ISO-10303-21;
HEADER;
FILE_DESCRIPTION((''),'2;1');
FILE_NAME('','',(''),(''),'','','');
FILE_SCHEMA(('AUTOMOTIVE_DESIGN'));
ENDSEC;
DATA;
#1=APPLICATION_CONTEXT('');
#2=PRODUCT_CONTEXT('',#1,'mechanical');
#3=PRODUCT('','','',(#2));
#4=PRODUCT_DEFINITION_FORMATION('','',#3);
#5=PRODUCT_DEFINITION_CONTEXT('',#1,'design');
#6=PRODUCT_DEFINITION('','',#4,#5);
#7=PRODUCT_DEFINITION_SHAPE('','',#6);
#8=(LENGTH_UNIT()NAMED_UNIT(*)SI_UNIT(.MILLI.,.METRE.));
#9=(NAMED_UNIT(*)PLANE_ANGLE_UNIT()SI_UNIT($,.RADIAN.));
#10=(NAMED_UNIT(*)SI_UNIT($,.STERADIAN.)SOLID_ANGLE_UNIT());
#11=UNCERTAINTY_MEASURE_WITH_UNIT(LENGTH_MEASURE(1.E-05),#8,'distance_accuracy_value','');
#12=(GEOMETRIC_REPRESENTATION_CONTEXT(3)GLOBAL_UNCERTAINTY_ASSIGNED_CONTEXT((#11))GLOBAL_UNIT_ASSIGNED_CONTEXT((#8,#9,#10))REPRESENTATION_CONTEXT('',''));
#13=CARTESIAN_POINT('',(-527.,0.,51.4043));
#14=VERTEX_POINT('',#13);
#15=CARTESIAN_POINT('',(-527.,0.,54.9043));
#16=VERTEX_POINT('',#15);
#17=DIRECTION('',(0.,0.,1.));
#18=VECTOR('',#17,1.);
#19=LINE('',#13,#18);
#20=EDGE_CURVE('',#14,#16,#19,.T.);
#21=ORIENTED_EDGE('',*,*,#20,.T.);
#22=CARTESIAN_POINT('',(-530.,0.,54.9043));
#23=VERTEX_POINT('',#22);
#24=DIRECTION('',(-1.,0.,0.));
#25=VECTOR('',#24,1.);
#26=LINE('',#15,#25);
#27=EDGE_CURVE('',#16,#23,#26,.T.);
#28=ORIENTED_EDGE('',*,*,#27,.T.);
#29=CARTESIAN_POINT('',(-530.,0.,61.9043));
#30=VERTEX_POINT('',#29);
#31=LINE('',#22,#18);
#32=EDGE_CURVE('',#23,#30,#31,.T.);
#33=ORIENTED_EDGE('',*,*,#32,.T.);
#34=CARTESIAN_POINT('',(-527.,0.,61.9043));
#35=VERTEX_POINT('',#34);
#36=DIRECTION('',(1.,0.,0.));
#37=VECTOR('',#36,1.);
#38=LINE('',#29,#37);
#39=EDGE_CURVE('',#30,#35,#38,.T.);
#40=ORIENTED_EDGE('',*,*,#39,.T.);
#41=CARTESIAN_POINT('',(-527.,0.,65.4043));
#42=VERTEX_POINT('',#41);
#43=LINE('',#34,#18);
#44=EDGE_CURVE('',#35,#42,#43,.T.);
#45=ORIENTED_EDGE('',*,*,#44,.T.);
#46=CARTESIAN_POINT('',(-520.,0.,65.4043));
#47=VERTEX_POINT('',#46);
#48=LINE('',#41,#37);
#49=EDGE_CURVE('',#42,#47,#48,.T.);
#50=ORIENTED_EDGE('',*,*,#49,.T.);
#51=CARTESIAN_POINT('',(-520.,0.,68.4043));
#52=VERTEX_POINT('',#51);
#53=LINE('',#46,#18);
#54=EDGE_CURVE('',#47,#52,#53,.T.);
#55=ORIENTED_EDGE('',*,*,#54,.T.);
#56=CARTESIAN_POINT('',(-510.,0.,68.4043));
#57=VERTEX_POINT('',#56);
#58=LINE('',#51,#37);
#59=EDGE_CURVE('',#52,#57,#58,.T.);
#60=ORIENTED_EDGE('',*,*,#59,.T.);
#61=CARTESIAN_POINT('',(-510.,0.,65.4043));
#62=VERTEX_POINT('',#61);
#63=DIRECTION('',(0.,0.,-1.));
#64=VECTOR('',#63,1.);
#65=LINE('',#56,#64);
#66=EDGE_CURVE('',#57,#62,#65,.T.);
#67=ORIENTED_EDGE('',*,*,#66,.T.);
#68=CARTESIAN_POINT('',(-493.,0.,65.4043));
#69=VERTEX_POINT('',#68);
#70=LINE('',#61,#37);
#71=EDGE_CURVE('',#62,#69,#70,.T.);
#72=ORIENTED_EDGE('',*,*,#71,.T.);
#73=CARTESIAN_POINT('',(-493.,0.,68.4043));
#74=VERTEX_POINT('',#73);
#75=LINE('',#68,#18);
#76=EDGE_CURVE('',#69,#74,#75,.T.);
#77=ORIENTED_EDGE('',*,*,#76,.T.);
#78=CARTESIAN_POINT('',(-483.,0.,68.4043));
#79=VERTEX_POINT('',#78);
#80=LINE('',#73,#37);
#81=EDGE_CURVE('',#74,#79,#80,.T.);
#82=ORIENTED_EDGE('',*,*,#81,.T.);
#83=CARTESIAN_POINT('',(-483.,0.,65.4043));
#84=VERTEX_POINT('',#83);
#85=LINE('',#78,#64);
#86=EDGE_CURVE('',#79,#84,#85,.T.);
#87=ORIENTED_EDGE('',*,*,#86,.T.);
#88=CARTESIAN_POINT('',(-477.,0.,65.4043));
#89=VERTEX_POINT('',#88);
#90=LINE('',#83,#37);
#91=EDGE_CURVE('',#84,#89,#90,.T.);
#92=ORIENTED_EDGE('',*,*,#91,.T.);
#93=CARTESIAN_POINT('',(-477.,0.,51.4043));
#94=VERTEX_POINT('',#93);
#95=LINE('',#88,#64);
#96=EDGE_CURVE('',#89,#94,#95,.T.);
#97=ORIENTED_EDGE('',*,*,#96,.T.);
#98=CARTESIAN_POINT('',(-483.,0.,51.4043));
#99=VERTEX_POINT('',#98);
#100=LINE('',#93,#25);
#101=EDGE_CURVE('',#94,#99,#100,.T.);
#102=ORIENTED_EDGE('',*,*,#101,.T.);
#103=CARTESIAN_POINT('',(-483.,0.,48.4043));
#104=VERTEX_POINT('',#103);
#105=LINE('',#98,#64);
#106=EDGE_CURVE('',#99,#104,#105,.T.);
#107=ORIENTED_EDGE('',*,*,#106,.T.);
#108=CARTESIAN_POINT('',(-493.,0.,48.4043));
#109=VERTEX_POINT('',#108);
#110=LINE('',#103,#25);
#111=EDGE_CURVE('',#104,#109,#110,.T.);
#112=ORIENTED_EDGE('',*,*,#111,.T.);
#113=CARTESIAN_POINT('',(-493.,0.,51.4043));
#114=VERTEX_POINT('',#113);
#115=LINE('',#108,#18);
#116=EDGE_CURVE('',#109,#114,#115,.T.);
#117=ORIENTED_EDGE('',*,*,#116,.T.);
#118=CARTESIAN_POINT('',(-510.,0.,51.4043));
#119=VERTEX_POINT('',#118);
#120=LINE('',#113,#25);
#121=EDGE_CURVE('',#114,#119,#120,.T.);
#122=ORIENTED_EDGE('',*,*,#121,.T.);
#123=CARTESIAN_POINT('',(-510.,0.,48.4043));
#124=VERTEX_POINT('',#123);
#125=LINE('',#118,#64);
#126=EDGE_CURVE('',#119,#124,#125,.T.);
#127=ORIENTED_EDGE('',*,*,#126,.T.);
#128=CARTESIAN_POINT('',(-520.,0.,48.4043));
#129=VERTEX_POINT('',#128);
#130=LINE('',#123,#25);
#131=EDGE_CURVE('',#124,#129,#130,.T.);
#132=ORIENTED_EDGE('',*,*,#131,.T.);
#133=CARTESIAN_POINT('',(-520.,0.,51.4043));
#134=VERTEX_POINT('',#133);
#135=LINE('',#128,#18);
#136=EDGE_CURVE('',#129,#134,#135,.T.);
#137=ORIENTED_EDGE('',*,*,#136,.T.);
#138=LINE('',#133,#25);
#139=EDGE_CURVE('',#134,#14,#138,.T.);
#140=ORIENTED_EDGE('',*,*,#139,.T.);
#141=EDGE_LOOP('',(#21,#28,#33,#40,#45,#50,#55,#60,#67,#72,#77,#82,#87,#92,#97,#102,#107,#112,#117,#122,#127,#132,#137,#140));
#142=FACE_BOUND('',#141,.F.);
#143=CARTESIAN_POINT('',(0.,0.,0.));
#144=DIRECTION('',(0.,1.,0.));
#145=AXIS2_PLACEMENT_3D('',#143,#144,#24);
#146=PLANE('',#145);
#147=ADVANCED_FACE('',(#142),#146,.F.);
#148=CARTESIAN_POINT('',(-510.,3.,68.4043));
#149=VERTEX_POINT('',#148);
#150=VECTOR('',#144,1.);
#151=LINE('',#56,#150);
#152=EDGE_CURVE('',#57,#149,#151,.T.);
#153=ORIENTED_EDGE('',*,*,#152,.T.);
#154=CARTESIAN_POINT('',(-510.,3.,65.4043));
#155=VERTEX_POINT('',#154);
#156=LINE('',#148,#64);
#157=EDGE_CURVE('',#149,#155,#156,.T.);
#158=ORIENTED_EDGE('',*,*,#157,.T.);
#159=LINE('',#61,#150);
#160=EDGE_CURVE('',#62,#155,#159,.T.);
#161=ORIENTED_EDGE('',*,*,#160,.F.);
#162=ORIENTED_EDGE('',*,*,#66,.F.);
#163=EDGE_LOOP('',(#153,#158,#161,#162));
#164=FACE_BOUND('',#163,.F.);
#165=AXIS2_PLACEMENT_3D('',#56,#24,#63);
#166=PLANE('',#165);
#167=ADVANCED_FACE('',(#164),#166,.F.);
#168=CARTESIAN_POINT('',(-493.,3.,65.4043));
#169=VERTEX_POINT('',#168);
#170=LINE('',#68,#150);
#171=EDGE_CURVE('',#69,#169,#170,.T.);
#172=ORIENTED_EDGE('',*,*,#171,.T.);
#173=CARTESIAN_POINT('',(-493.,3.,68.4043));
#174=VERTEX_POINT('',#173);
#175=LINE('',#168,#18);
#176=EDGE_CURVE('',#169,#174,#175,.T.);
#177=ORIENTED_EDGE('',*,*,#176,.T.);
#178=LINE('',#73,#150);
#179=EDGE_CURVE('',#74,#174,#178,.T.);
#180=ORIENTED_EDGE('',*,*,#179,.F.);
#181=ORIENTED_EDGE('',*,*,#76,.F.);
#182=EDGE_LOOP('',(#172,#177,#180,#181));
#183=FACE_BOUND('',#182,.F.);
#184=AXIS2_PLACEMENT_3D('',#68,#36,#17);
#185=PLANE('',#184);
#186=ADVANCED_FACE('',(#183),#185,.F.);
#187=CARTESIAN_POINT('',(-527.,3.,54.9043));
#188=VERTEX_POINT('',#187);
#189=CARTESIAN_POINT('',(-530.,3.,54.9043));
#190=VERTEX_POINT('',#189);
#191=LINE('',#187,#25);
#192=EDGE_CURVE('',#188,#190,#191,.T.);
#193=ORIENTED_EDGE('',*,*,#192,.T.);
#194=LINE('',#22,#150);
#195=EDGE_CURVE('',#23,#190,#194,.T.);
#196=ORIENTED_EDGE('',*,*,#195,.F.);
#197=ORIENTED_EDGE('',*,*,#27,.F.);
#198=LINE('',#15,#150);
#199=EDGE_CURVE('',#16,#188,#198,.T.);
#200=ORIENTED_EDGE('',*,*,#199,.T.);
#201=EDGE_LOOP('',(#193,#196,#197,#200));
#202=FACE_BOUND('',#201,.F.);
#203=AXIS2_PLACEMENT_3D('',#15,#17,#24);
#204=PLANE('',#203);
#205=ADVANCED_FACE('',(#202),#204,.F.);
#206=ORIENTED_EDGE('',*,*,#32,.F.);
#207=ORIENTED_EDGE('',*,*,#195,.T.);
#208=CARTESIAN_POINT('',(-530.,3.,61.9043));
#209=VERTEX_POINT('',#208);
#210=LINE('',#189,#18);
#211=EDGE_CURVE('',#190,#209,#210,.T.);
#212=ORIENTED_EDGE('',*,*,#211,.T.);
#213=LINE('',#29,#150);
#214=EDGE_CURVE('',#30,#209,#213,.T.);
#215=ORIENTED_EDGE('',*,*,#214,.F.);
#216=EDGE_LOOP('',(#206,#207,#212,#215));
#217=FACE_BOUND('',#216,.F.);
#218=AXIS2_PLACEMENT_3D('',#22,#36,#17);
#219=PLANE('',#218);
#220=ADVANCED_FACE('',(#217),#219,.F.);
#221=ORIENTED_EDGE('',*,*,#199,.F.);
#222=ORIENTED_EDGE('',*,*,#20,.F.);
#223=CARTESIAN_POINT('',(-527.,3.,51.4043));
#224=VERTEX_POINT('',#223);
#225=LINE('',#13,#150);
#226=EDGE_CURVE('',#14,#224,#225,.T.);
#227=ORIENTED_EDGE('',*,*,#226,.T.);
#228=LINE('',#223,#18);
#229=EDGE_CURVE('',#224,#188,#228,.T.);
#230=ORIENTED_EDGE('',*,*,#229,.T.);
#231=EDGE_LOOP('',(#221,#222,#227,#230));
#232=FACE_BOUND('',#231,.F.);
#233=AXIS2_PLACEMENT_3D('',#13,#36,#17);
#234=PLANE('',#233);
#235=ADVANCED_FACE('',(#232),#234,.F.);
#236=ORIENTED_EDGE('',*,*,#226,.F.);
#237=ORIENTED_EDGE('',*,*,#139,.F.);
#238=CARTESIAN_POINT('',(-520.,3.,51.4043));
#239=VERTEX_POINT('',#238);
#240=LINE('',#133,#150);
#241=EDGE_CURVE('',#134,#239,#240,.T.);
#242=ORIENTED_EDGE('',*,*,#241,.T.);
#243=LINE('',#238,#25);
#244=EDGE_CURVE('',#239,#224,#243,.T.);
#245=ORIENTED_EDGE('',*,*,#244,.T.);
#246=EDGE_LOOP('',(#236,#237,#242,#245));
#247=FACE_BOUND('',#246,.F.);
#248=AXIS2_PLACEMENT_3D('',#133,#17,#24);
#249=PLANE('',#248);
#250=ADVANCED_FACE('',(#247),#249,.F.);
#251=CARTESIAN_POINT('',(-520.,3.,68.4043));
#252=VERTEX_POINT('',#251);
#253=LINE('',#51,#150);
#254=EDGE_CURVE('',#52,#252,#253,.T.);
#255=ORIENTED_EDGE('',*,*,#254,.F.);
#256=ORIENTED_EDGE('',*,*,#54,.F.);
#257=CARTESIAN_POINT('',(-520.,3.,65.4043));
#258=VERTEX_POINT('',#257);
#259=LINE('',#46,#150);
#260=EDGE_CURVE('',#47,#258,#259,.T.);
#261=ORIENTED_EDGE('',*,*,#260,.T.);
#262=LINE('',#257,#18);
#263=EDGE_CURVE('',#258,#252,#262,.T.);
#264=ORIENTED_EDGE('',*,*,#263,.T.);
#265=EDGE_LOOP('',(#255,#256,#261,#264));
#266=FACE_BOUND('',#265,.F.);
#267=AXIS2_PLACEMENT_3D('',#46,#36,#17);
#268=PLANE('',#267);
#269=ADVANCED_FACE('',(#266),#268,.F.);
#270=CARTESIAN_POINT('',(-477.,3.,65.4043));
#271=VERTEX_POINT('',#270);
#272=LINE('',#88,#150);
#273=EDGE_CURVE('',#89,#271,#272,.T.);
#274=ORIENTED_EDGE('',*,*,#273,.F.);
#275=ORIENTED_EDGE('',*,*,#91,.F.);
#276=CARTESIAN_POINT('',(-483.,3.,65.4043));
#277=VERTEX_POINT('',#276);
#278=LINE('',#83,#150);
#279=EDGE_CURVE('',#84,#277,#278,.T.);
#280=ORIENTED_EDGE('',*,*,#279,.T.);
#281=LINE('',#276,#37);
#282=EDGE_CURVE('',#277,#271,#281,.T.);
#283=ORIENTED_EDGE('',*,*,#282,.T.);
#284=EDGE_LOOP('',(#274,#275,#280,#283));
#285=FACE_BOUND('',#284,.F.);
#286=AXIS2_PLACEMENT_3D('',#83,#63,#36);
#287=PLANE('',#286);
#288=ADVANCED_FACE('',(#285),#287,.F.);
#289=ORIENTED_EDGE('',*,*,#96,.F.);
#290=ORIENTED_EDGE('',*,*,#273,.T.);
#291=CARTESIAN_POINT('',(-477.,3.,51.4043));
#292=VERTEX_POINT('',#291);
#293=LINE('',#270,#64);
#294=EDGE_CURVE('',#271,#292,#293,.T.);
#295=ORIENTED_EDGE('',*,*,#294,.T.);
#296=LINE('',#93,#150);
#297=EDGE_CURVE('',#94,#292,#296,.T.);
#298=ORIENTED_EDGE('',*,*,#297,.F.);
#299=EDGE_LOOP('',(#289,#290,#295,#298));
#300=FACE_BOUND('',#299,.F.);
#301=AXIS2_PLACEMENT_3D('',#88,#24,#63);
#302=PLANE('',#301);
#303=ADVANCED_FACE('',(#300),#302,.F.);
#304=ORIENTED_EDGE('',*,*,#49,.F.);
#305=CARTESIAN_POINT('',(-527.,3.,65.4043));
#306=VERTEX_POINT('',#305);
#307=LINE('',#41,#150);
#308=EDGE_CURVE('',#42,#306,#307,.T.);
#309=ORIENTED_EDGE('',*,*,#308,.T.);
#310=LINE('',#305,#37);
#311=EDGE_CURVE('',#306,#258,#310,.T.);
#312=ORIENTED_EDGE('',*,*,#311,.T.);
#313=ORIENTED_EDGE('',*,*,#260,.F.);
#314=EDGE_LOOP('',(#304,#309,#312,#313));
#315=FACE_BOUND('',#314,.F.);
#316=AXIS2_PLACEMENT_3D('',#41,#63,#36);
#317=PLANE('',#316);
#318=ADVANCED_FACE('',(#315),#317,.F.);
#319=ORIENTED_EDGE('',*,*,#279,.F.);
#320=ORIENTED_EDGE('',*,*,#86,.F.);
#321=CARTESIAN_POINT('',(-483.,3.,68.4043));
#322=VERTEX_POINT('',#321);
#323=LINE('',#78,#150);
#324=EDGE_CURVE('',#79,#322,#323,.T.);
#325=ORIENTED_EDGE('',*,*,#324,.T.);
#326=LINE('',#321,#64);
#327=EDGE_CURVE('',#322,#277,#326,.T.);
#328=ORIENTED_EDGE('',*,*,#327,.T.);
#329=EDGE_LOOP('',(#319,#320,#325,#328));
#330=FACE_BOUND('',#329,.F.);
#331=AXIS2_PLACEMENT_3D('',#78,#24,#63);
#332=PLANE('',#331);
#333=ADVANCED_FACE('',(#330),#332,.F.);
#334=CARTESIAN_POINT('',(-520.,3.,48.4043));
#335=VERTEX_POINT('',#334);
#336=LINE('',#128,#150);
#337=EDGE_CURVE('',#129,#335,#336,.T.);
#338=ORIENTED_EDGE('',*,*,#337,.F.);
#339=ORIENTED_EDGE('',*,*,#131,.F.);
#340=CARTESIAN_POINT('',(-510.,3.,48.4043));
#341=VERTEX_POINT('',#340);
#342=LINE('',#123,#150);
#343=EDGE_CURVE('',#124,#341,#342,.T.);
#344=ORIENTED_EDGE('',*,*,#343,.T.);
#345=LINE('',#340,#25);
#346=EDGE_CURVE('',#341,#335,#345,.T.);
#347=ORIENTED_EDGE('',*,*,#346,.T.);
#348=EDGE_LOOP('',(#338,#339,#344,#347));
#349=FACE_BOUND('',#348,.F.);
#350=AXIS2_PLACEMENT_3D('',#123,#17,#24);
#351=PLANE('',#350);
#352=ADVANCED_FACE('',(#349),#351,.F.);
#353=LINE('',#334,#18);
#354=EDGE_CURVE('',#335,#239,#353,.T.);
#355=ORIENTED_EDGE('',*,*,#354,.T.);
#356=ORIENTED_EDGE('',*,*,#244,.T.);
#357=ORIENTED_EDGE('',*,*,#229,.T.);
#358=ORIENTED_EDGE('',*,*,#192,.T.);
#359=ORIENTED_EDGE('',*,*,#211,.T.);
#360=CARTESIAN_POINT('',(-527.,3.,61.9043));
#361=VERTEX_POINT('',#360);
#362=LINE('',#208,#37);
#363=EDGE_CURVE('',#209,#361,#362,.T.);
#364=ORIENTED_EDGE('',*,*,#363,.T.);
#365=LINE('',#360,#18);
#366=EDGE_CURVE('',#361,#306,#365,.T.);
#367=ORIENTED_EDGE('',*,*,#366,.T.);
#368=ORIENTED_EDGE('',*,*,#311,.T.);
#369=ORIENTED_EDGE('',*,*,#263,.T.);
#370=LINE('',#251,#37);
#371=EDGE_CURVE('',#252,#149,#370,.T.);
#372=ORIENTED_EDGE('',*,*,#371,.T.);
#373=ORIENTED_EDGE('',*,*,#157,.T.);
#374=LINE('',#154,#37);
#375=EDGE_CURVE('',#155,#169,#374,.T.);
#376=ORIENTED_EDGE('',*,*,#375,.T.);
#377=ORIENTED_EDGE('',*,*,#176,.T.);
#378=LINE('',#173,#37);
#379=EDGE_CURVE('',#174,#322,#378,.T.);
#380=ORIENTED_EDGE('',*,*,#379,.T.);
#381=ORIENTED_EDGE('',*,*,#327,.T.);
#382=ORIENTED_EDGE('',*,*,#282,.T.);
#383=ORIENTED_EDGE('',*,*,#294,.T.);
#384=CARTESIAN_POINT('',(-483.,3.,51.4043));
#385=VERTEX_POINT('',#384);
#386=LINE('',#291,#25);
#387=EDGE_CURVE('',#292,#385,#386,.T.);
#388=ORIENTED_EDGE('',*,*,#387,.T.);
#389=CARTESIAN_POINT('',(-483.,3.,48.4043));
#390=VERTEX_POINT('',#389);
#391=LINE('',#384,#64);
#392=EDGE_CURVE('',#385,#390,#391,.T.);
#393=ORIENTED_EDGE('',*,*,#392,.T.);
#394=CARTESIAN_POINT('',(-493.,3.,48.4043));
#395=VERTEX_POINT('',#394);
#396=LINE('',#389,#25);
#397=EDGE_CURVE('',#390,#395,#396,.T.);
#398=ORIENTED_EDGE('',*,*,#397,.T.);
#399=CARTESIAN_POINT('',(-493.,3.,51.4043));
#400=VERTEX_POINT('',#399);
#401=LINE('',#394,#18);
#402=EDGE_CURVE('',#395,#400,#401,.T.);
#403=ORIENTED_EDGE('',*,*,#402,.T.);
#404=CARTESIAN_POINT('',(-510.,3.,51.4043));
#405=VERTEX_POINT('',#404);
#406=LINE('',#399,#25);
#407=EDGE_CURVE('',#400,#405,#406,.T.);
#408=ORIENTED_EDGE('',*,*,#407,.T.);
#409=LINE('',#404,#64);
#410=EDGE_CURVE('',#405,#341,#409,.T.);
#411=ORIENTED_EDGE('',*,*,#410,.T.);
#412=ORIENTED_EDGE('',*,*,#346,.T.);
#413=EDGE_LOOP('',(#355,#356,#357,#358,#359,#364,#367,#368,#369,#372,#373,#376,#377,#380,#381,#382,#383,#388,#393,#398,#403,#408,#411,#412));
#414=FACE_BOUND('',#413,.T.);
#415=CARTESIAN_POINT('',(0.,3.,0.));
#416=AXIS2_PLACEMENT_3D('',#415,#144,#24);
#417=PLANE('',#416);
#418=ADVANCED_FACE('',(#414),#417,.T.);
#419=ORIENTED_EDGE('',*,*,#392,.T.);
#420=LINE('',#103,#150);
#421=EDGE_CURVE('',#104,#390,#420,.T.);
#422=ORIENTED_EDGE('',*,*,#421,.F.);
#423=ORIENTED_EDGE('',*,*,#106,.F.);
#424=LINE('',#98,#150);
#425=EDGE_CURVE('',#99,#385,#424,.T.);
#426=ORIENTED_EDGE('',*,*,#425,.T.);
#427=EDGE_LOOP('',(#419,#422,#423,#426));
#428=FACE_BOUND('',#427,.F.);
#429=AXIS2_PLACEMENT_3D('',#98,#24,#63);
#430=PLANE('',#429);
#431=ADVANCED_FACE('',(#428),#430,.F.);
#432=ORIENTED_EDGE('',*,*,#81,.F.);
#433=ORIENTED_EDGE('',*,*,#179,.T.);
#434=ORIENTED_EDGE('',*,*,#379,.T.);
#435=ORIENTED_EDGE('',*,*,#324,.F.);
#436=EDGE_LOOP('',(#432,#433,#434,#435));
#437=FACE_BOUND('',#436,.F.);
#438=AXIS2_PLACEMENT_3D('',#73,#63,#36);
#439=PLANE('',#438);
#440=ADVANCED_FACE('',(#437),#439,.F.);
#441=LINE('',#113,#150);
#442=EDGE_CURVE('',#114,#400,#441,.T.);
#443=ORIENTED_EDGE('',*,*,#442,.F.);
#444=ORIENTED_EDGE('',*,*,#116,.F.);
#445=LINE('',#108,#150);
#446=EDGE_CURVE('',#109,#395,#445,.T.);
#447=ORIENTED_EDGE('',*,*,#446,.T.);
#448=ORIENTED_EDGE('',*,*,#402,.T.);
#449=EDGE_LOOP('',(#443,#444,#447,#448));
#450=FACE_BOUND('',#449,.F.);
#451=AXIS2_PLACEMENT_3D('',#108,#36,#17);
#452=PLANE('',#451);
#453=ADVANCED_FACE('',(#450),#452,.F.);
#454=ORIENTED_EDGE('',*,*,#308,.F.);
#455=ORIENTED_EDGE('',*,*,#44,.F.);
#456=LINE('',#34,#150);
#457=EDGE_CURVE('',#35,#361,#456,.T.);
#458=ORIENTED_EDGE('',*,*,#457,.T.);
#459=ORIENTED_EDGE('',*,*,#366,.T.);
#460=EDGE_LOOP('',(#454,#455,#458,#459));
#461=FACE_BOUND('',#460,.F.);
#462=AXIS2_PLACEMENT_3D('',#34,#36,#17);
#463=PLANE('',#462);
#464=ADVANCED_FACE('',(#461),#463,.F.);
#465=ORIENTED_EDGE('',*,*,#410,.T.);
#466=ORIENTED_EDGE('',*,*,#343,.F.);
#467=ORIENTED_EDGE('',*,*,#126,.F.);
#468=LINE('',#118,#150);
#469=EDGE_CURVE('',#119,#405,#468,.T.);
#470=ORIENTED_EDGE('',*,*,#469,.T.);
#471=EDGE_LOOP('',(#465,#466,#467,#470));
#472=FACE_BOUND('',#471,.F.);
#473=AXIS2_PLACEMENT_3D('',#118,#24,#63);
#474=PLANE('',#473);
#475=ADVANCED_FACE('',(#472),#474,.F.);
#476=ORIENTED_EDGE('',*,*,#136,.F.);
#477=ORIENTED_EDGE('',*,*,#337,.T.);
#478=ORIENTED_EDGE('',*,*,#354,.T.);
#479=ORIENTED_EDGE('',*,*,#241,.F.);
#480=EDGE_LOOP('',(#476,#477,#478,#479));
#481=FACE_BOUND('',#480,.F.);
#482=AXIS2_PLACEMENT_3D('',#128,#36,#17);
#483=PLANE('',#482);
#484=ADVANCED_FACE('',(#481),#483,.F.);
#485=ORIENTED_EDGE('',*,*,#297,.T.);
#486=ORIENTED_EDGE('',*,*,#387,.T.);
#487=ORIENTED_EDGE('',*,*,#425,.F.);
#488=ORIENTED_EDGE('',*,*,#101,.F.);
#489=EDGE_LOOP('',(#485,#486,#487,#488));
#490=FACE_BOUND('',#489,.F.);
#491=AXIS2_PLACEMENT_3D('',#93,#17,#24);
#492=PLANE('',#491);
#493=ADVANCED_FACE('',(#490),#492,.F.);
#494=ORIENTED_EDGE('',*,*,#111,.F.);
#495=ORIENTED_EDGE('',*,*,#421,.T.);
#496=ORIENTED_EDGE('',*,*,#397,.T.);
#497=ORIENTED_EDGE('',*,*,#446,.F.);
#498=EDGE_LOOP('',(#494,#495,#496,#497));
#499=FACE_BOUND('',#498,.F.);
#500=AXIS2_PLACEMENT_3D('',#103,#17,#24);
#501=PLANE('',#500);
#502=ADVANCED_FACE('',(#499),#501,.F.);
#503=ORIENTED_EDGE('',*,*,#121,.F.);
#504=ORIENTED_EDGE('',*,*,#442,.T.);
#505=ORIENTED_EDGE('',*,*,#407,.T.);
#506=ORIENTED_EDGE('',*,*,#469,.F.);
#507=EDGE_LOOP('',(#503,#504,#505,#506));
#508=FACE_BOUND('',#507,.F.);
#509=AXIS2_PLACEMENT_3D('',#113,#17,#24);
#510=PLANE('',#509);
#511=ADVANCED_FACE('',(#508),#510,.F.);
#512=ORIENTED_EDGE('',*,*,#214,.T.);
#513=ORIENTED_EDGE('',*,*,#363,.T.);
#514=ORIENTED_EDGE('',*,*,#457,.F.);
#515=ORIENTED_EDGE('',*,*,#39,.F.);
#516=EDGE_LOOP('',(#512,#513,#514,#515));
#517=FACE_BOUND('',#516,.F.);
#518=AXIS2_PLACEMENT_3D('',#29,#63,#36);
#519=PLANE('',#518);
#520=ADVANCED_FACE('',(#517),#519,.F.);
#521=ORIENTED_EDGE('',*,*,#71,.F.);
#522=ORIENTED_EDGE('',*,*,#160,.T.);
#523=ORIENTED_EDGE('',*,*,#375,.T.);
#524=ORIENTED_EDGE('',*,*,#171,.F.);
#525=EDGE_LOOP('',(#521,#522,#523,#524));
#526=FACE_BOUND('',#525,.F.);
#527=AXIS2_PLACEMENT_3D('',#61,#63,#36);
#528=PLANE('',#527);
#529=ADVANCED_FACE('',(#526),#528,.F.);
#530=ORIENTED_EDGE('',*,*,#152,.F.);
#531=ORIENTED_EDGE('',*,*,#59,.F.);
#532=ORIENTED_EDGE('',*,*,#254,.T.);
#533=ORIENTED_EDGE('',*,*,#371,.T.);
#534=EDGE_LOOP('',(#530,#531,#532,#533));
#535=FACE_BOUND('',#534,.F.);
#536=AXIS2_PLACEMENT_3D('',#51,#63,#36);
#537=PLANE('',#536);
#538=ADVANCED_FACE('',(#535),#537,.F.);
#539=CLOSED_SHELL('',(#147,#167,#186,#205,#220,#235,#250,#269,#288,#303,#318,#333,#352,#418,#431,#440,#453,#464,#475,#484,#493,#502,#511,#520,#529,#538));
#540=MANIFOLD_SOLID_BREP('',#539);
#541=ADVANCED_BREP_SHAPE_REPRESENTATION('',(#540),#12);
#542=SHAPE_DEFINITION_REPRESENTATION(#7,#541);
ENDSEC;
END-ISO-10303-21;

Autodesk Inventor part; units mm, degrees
ref_plane "YZ Plane" through (0, 0, 0) normal (1, 0, 0) x (0, 1, 0)
ref_plane "XZ Plane" through (0, 0, 0) normal (0, 1, 0) x (-1, 0, 0)
ref_plane "XY Plane" through (0, 0, 0) normal (0, 0, 1) x (1, 0, 0)
sketch "Sketch2" plane through (0, 0, 0) normal (0, 1, 0) x (-1, 0, 0)
  line L0 (600, 68.7059) -> (634, 68.7059)
  arc A0 (642, 60.7059) -> (634, 68.7059) centre (634, 60.7059) ccw
  line L1 (642, 60.7059) -> (642, 56.7059)
  arc A1 (634, 48.7059) -> (642, 56.7059) centre (634, 56.7059) ccw
  line L2 (634, 48.7059) -> (632, 48.7059)
  arc A2 (632, 48.7059) -> (624, 40.7059) centre (632, 40.7059) ccw
  line L3 (624, 40.7059) -> (624, 36.7059)
  arc A3 (624, 36.7059) -> (632, 28.7059) centre (632, 36.7059) ccw
  line L4 (632, 28.7059) -> (634, 28.7059)
  arc A4 (642, 20.7059) -> (634, 28.7059) centre (634, 20.7059) ccw
  line L5 (642, 20.7059) -> (642, 16.7059)
  arc A5 (634, 8.7059) -> (642, 16.7059) centre (634, 16.7059) ccw
  line L6 (634, 8.7059) -> (600, 8.7059)
  arc A6 (592, 16.7059) -> (600, 8.7059) centre (600, 16.7059) ccw
  line L7 (592, 16.7059) -> (592, 21.7059)
  line L8 (592, 21.7059) -> (606.1716, 35.8774)
  arc A7 (606.1716, 35.8774) -> (606.1716, 41.5343) centre (603.3431, 38.7059) ccw
  line L9 (606.1716, -97.5343) -> (592, -111.7059)
  line L10 (592, -111.7059) -> (592, -116.7059)
  arc A8 (592, -116.7059) -> (600, -124.7059) centre (600, -116.7059) ccw
  line L11 (600, -124.7059) -> (634, -124.7059)
  arc A9 (634, -124.7059) -> (642, -116.7059) centre (634, -116.7059) ccw
  line L12 (642, -116.7059) -> (642, -112.7059)
  arc A10 (642, -112.7059) -> (634, -104.7059) centre (634, -112.7059) ccw
  line L13 (634, -104.7059) -> (632, -104.7059)
  arc A11 (624, -96.7059) -> (632, -104.7059) centre (632, -96.7059) ccw
  line L14 (624, -96.7059) -> (624, -92.7059)
  arc A12 (632, -84.7059) -> (624, -92.7059) centre (632, -92.7059) ccw
  line L15 (632, -84.7059) -> (634, -84.7059)
  arc A13 (634, -84.7059) -> (642, -76.7059) centre (634, -76.7059) ccw
  line L16 (642, -76.7059) -> (642, -72.7059)
  arc A14 (642, -72.7059) -> (634, -64.7059) centre (634, -72.7059) ccw
  line L17 (634, -64.7059) -> (600, -64.7059)
  arc A15 (600, -64.7059) -> (592, -72.7059) centre (600, -72.7059) ccw
  line L18 (592, -72.7059) -> (592, -77.7059)
  line L19 (592, -77.7059) -> (606.1716, -91.8774)
  arc A16 (606.1716, -97.5343) -> (606.1716, -91.8774) centre (603.3431, -94.7059) ccw
  circle A17 centre (618, -74.7059) radius 3
  circle A18 centre (634, -74.7059) radius 3
  circle A19 centre (634, -114.7059) radius 3
  circle A20 centre (618, -114.7059) radius 3
  circle A21 centre (618, 58.7059) radius 3
  circle A22 centre (634, 58.7059) radius 3
  circle A23 centre (634, 18.7059) radius 3
  circle A24 centre (618, 18.7059) radius 3
  line L20 (606.1716, 41.5343) -> (592, 55.7059)
  line L21 (592, 55.7059) -> (592, 60.7059)
  arc A25 (600, 68.7059) -> (592, 60.7059) centre (600, 60.7059) ccw
  line L22 (329, -137) -> (729, -137)
  line L23 (729, -137) -> (729, 83)
  line L24 (729, 83) -> (329, 83)
  line L25 (329, 83) -> (329, -137)
  line L26 (444, -107.4043) -> (417.5, -107.4043)
  line L27 (417.5, -107.4043) -> (417.5, -104.4043)
  line L28 (417.5, -104.4043) -> (450, -104.4043)
  line L29 (450, -104.4043) -> (450, -107.4043)
  line L30 (450, -107.4043) -> (444, -107.4043)
  line L31 (441, -117.9043) -> (444, -117.9043)
  line L32 (444, -117.9043) -> (444, -110.9043)
  line L33 (444, -110.9043) -> (441, -110.9043)
  line L34 (441, -110.9043) -> (441, -117.9043)
  line L35 (417.5, -121.4043) -> (417.5, -124.4043)
  line L36 (417.5, -124.4043) -> (450, -124.4043)
  line L37 (450, -124.4043) -> (450, -121.4043)
  line L38 (450, -121.4043) -> (417.5, -121.4043)
  line L39 (376.0002, -107.4043) -> (402.5, -107.4043)
  line L40 (402.5, -107.4043) -> (402.5, -104.4043)
  line L41 (402.5, -104.4043) -> (370, -104.4043)
  line L42 (370, -104.4043) -> (370, -107.4043)
  line L43 (370, -107.4043) -> (376.0002, -107.4043)
  line L44 (379.0002, -121.4043) -> (370, -121.4043)
  line L45 (370, -121.4043) -> (370, -124.4043)
  line L46 (370, -124.4043) -> (402.5, -124.4043)
  line L47 (402.5, -124.4043) -> (402.5, -121.4043)
  line L48 (402.5, -121.4043) -> (379.0002, -121.4043)
  line L49 (379.0002, -117.9043) -> (376.0002, -117.9043)
  line L50 (376.0002, -117.9043) -> (376.0002, -110.9043)
  line L51 (376.0002, -110.9043) -> (379.0002, -110.9043)
  line L52 (379.0002, -110.9043) -> (379.0002, -117.9043)
  line L53 (348, -127) -> (472.0002, -127)
  line L54 (472.0002, -127) -> (472.0002, -124.4043)
  line L55 (472.0002, -124.4043) -> (465, -124.4043)
  line L56 (465, -124.4043) -> (465, -121.4043)
  line L57 (465, -121.4043) -> (472.0002, -121.4043)
  line L58 (472.0002, -121.4043) -> (472.0002, -107.4043)
  line L59 (472.0002, -107.4043) -> (465, -107.4043)
  line L60 (465, -107.4043) -> (465, -104.4043)
  line L61 (465, -104.4043) -> (472.0002, -104.4043)
  line L62 (472.0002, -104.4043) -> (472.0002, -101)
  line L63 (472.0002, -101) -> (348, -101)
  line L64 (348, -101) -> (348, -104.4043)
  line L65 (348, -104.4043) -> (355, -104.4043)
  line L66 (355, -104.4043) -> (355, -107.4043)
  line L67 (355, -107.4043) -> (348, -107.4043)
  line L68 (348, -107.4043) -> (348, -121.4043)
  line L69 (348, -121.4043) -> (355, -121.4043)
  line L70 (355, -121.4043) -> (355, -124.4043)
  line L71 (355, -124.4043) -> (348, -124.4043)
  line L72 (348, -124.4043) -> (348, -127)
  circle A26 centre (447.7252, -37.7011) radius 3
  circle A27 centre (372.2748, -37.7011) radius 3
  circle A28 centre (410, -64.4043) radius 3
  circle A29 centre (448.5, -66.4043) radius 3
  circle A30 centre (371.5, -66.4043) radius 3
  circle A31 centre (410, -80.4043) radius 3
  line L73 (379, -84.4043) -> (376, -84.4043)
  line L74 (376, -84.4043) -> (376, -74.4043)
  line L75 (376, -74.4043) -> (379, -74.4043)
  line L76 (379, -74.4043) -> (379, -84.4043)
  line L77 (379, -57.4043) -> (376, -57.4043)
  line L78 (376, -57.4043) -> (376, -47.4043)
  line L79 (376, -47.4043) -> (379, -47.4043)
  line L80 (379, -47.4043) -> (379, -57.4043)
  line L81 (441, -47.4043) -> (441, -57.4043)
  line L82 (441, -57.4043) -> (444, -57.4043)
  line L83 (444, -57.4043) -> (444, -47.4043)
  line L84 (444, -47.4043) -> (441, -47.4043)
  line L85 (441, -74.4043) -> (441, -84.4043)
  line L86 (441, -84.4043) -> (444, -84.4043)
  line L87 (444, -84.4043) -> (444, -74.4043)
  line L88 (444, -74.4043) -> (441, -74.4043)
  line L89 (427, -44.4043) -> (427, -72.4043)
  arc A32 (427, -72.4043) -> (433, -72.4043) centre (430, -72.4043) ccw
  line L90 (433, -72.4043) -> (433, -44.4043)
  arc A33 (433, -44.4043) -> (427, -44.4043) centre (430, -44.4043) ccw
  arc A34 (387, -72.4043) -> (393, -72.4043) centre (390, -72.4043) ccw
  line L91 (393, -72.4043) -> (393, -44.4043)
  arc A35 (393, -44.4043) -> (387, -44.4043) centre (390, -44.4043) ccw
  line L92 (387, -44.4043) -> (387, -72.4043)
  line L93 (372.3983, -27.7019) -> (383.2576, -27.7018)
  arc A36 (390.8984, -33.3311) -> (383.2576, -27.7018) centre (383.2577, -35.7018) ccw
  arc A37 (390.8984, -33.3311) -> (429.1018, -33.3307) centre (410, -27.4043) ccw
  arc A38 (436.7424, -27.7012) -> (429.1018, -33.3307) centre (436.7425, -35.7012) ccw
  line L94 (436.7424, -27.7012) -> (447.7251, -27.7011)
  arc A39 (457.0715, -34.1449) -> (447.7251, -27.7011) centre (447.7252, -37.7011) ccw
  line L95 (457.0715, -34.1449) -> (477.9368, -88.9818)
  arc A40 (474.1982, -94.4043) -> (477.9368, -88.9818) centre (474.1982, -90.4043) ccw
  line L96 (474.1982, -94.4043) -> (465, -94.4043)
  line L97 (465, -94.4043) -> (465, -91.4043)
  line L98 (465, -91.4043) -> (450, -91.4043)
  line L99 (450, -91.4043) -> (450, -94.4043)
  line L100 (450, -94.4043) -> (417.5, -94.4043)
  line L101 (417.5, -94.4043) -> (417.5, -91.4043)
  line L102 (417.5, -91.4043) -> (402.5, -91.4043)
  line L103 (402.5, -91.4043) -> (402.5, -94.4043)
  line L104 (402.5, -94.4043) -> (370, -94.4043)
  line L105 (370, -94.4043) -> (370, -91.4043)
  line L106 (370, -91.4043) -> (355, -91.4043)
  line L107 (355, -91.4043) -> (355, -94.4043)
  line L108 (355, -94.4043) -> (345.8018, -94.4043)
  arc A41 (342.0632, -88.9818) -> (345.8018, -94.4043) centre (345.8018, -90.4043) ccw
  line L109 (342.0632, -88.9818) -> (362.9285, -34.1449)
  arc A42 (372.3983, -27.7019) -> (362.9285, -34.1449) centre (372.2748, -37.7011) ccw
  line L110 (491.3983, -95.7004) -> (502.2576, -95.7005)
  arc A43 (502.2576, -95.7005) -> (509.8984, -90.0712) centre (502.2577, -87.7005) ccw
  arc A44 (548.1018, -90.0716) -> (509.8984, -90.0712) centre (529, -95.998) ccw
  arc A45 (548.1018, -90.0716) -> (555.7424, -95.701) centre (555.7425, -87.701) ccw
  line L111 (555.7424, -95.701) -> (566.7251, -95.7011)
  arc A46 (566.7251, -95.7011) -> (576.0715, -89.2574) centre (566.7252, -85.7011) ccw
  line L112 (576.0715, -89.2574) -> (596.9368, -34.4205)
  arc A47 (596.9368, -34.4205) -> (593.1982, -28.998) centre (593.1982, -32.998) ccw
  line L113 (593.1982, -28.998) -> (584, -28.998)
  line L114 (584, -28.998) -> (584, -31.998)
  line L115 (584, -31.998) -> (569, -31.998)
  line L116 (569, -31.998) -> (569, -28.998)
  line L117 (569, -28.998) -> (536.5, -28.998)
  line L118 (536.5, -28.998) -> (536.5, -31.998)
  line L119 (536.5, -31.998) -> (521.5, -31.998)
  line L120 (521.5, -31.998) -> (521.5, -28.998)
  line L121 (521.5, -28.998) -> (489, -28.998)
  line L122 (489, -28.998) -> (489, -31.998)
  line L123 (489, -31.998) -> (474, -31.998)
  line L124 (474, -31.998) -> (474, -28.998)
  line L125 (474, -28.998) -> (464.8018, -28.998)
  arc A48 (464.8018, -28.998) -> (461.0632, -34.4205) centre (464.8018, -32.998) ccw
  line L126 (461.0632, -34.4205) -> (481.9285, -89.2574)
  arc A49 (481.9285, -89.2574) -> (491.3983, -95.7004) centre (491.2748, -85.7011) ccw
  arc A50 (512, -50.998) -> (506, -50.998) centre (509, -50.998) ccw
  line L127 (512, -50.998) -> (512, -78.998)
  arc A51 (506, -78.998) -> (512, -78.998) centre (509, -78.998) ccw
  line L128 (506, -78.998) -> (506, -50.998)
  line L129 (546, -78.998) -> (546, -50.998)
  arc A52 (552, -50.998) -> (546, -50.998) centre (549, -50.998) ccw
  line L130 (552, -50.998) -> (552, -78.998)
  arc A53 (546, -78.998) -> (552, -78.998) centre (549, -78.998) ccw
  line L131 (560, -48.998) -> (560, -38.998)
  line L132 (560, -38.998) -> (563, -38.998)
  line L133 (563, -38.998) -> (563, -48.998)
  line L134 (563, -48.998) -> (560, -48.998)
  line L135 (560, -75.998) -> (560, -65.998)
  line L136 (560, -65.998) -> (563, -65.998)
  line L137 (563, -65.998) -> (563, -75.998)
  line L138 (563, -75.998) -> (560, -75.998)
  line L139 (498, -65.998) -> (495, -65.998)
  line L140 (495, -65.998) -> (495, -75.998)
  line L141 (495, -75.998) -> (498, -75.998)
  line L142 (498, -75.998) -> (498, -65.998)
  line L143 (498, -38.998) -> (495, -38.998)
  line L144 (495, -38.998) -> (495, -48.998)
  line L145 (495, -48.998) -> (498, -48.998)
  line L146 (498, -48.998) -> (498, -38.998)
  circle A54 centre (529, -42.998) radius 3
  circle A55 centre (490.5, -56.998) radius 3
  circle A56 centre (567.5, -56.998) radius 3
  circle A57 centre (529, -58.998) radius 3
  circle A58 centre (491.2748, -85.7011) radius 3
  circle A59 centre (566.7252, -85.7011) radius 3
  circle A60 centre (462, -114.4043) radius 3
  circle A61 centre (358.0002, -114.4043) radius 3
  line L147 (578, -104.4043) -> (578, -107.4043)
  line L148 (578, -107.4043) -> (585, -107.4043)
  line L149 (585, -107.4043) -> (585, -110.9043)
  line L150 (585, -110.9043) -> (588, -110.9043)
  line L151 (588, -110.9043) -> (588, -117.9043)
  line L152 (588, -117.9043) -> (585, -117.9043)
  line L153 (585, -117.9043) -> (585, -121.4043)
  line L154 (585, -121.4043) -> (578, -121.4043)
  line L155 (578, -121.4043) -> (578, -124.4043)
  line L156 (578, -124.4043) -> (568, -124.4043)
  line L157 (568, -124.4043) -> (568, -121.4043)
  line L158 (568, -121.4043) -> (551, -121.4043)
  line L159 (551, -121.4043) -> (551, -124.4043)
  line L160 (551, -124.4043) -> (541, -124.4043)
  line L161 (541, -124.4043) -> (541, -121.4043)
  line L162 (541, -121.4043) -> (535, -121.4043)
  line L163 (535, -121.4043) -> (535, -107.4043)
  line L164 (535, -107.4043) -> (541, -107.4043)
  line L165 (541, -107.4043) -> (541, -104.4043)
  line L166 (541, -104.4043) -> (551, -104.4043)
  line L167 (551, -104.4043) -> (551, -107.4043)
  line L168 (551, -107.4043) -> (568, -107.4043)
  line L169 (568, -107.4043) -> (568, -104.4043)
  line L170 (568, -104.4043) -> (578, -104.4043)
  line L171 (520, -104.4043) -> (520, -107.4043)
  line L172 (520, -107.4043) -> (527, -107.4043)
  line L173 (527, -107.4043) -> (527, -110.9043)
  line L174 (527, -110.9043) -> (530, -110.9043)
  line L175 (530, -110.9043) -> (530, -117.9043)
  line L176 (530, -117.9043) -> (527, -117.9043)
  line L177 (527, -117.9043) -> (527, -121.4043)
  line L178 (527, -121.4043) -> (520, -121.4043)
  line L179 (520, -121.4043) -> (520, -124.4043)
  line L180 (520, -124.4043) -> (510, -124.4043)
  line L181 (510, -124.4043) -> (510, -121.4043)
  line L182 (510, -121.4043) -> (493, -121.4043)
  line L183 (493, -121.4043) -> (493, -124.4043)
  line L184 (493, -124.4043) -> (483, -124.4043)
  line L185 (483, -124.4043) -> (483, -121.4043)
  line L186 (483, -121.4043) -> (477, -121.4043)
  line L187 (477, -121.4043) -> (477, -107.4043)
  line L188 (477, -107.4043) -> (483, -107.4043)
  line L189 (483, -107.4043) -> (483, -104.4043)
  line L190 (483, -104.4043) -> (493, -104.4043)
  line L191 (493, -104.4043) -> (493, -107.4043)
  line L192 (493, -107.4043) -> (510, -107.4043)
  line L193 (510, -107.4043) -> (510, -104.4043)
  line L194 (510, -104.4043) -> (520, -104.4043)
  line L195 (520, 48.4043) -> (520, 51.4043)
  line L196 (520, 51.4043) -> (527, 51.4043)
  line L197 (527, 51.4043) -> (527, 54.9043)
  line L198 (527, 54.9043) -> (530, 54.9043)
  line L199 (530, 54.9043) -> (530, 61.9043)
  line L200 (530, 61.9043) -> (527, 61.9043)
  line L201 (527, 61.9043) -> (527, 65.4043)
  line L202 (527, 65.4043) -> (520, 65.4043)
  line L203 (520, 65.4043) -> (520, 68.4043)
  line L204 (520, 68.4043) -> (510, 68.4043)
  line L205 (510, 68.4043) -> (510, 65.4043)
  line L206 (510, 65.4043) -> (493, 65.4043)
  line L207 (493, 65.4043) -> (493, 68.4043)
  line L208 (493, 68.4043) -> (483, 68.4043)
  line L209 (483, 68.4043) -> (483, 65.4043)
  line L210 (483, 65.4043) -> (477, 65.4043)
  line L211 (477, 65.4043) -> (477, 51.4043)
  line L212 (477, 51.4043) -> (483, 51.4043)
  line L213 (483, 51.4043) -> (483, 48.4043)
  line L214 (483, 48.4043) -> (493, 48.4043)
  line L215 (493, 48.4043) -> (493, 51.4043)
  line L216 (493, 51.4043) -> (510, 51.4043)
  line L217 (510, 51.4043) -> (510, 48.4043)
  line L218 (510, 48.4043) -> (520, 48.4043)
  line L219 (578, 48.4043) -> (578, 51.4043)
  line L220 (578, 51.4043) -> (585, 51.4043)
  line L221 (585, 51.4043) -> (585, 54.9043)
  line L222 (585, 54.9043) -> (588, 54.9043)
  line L223 (588, 54.9043) -> (588, 61.9043)
  line L224 (588, 61.9043) -> (585, 61.9043)
  line L225 (585, 61.9043) -> (585, 65.4043)
  line L226 (585, 65.4043) -> (578, 65.4043)
  line L227 (578, 65.4043) -> (578, 68.4043)
  line L228 (578, 68.4043) -> (568, 68.4043)
  line L229 (568, 68.4043) -> (568, 65.4043)
  line L230 (568, 65.4043) -> (551, 65.4043)
  line L231 (551, 65.4043) -> (551, 68.4043)
  line L232 (551, 68.4043) -> (541, 68.4043)
  line L233 (541, 68.4043) -> (541, 65.4043)
  line L234 (541, 65.4043) -> (535, 65.4043)
  line L235 (535, 65.4043) -> (535, 51.4043)
  line L236 (535, 51.4043) -> (541, 51.4043)
  line L237 (541, 51.4043) -> (541, 48.4043)
  line L238 (541, 48.4043) -> (551, 48.4043)
  line L239 (551, 48.4043) -> (551, 51.4043)
  line L240 (551, 51.4043) -> (568, 51.4043)
  line L241 (568, 51.4043) -> (568, 48.4043)
  line L242 (568, 48.4043) -> (578, 48.4043)
  circle A62 centre (358.0002, 58.4043) radius 3
  circle A63 centre (462, 58.4043) radius 3
  circle A64 centre (566.7252, 29.7011) radius 3
  circle A65 centre (491.2748, 29.7011) radius 3
  circle A66 centre (529, 2.998) radius 3
  circle A67 centre (567.5, 0.998) radius 3
  circle A68 centre (490.5, 0.998) radius 3
  circle A69 centre (529, -13.002) radius 3
  line L243 (498, -17.002) -> (495, -17.002)
  line L244 (495, -17.002) -> (495, -7.002)
  line L245 (495, -7.002) -> (498, -7.002)
  line L246 (498, -7.002) -> (498, -17.002)
  line L247 (498, 9.998) -> (495, 9.998)
  line L248 (495, 9.998) -> (495, 19.998)
  line L249 (495, 19.998) -> (498, 19.998)
  line L250 (498, 19.998) -> (498, 9.998)
  line L251 (560, 19.998) -> (560, 9.998)
  line L252 (560, 9.998) -> (563, 9.998)
  line L253 (563, 9.998) -> (563, 19.998)
  line L254 (563, 19.998) -> (560, 19.998)
  line L255 (560, -7.002) -> (560, -17.002)
  line L256 (560, -17.002) -> (563, -17.002)
  line L257 (563, -17.002) -> (563, -7.002)
  line L258 (563, -7.002) -> (560, -7.002)
  line L259 (546, 22.998) -> (546, -5.002)
  arc A70 (546, -5.002) -> (552, -5.002) centre (549, -5.002) ccw
  line L260 (552, -5.002) -> (552, 22.998)
  arc A71 (552, 22.998) -> (546, 22.998) centre (549, 22.998) ccw
  arc A72 (506, -5.002) -> (512, -5.002) centre (509, -5.002) ccw
  line L261 (512, -5.002) -> (512, 22.998)
  arc A73 (512, 22.998) -> (506, 22.998) centre (509, 22.998) ccw
  line L262 (506, 22.998) -> (506, -5.002)
  line L263 (491.3983, 39.7004) -> (502.2576, 39.7005)
  arc A74 (509.8984, 34.0712) -> (502.2576, 39.7005) centre (502.2577, 31.7005) ccw
  arc A75 (509.8984, 34.0712) -> (548.1018, 34.0716) centre (529, 39.998) ccw
  arc A76 (555.7424, 39.701) -> (548.1018, 34.0716) centre (555.7425, 31.701) ccw
  line L264 (555.7424, 39.701) -> (566.7251, 39.7011)
  arc A77 (576.0715, 33.2574) -> (566.7251, 39.7011) centre (566.7252, 29.7011) ccw
  line L265 (576.0715, 33.2574) -> (596.9368, -21.5795)
  arc A78 (593.1982, -27.002) -> (596.9368, -21.5795) centre (593.1982, -23.002) ccw
  line L266 (593.1982, -27.002) -> (584, -27.002)
  line L267 (584, -27.002) -> (584, -24.002)
  line L268 (584, -24.002) -> (569, -24.002)
  line L269 (569, -24.002) -> (569, -27.002)
  line L270 (569, -27.002) -> (536.5, -27.002)
  line L271 (536.5, -27.002) -> (536.5, -24.002)
  line L272 (536.5, -24.002) -> (521.5, -24.002)
  line L273 (521.5, -24.002) -> (521.5, -27.002)
  line L274 (521.5, -27.002) -> (489, -27.002)
  line L275 (489, -27.002) -> (489, -24.002)
  line L276 (489, -24.002) -> (474, -24.002)
  line L277 (474, -24.002) -> (474, -27.002)
  line L278 (474, -27.002) -> (464.8018, -27.002)
  arc A79 (461.0632, -21.5795) -> (464.8018, -27.002) centre (464.8018, -23.002) ccw
  line L279 (461.0632, -21.5795) -> (481.9285, 33.2574)
  arc A80 (491.3983, 39.7004) -> (481.9285, 33.2574) centre (491.2748, 29.7011) ccw
  line L280 (372.3983, -28.2981) -> (383.2576, -28.2982)
  arc A81 (383.2576, -28.2982) -> (390.8984, -22.6689) centre (383.2577, -20.2982) ccw
  arc A82 (429.1018, -22.6693) -> (390.8984, -22.6689) centre (410, -28.5957) ccw
  arc A83 (429.1018, -22.6693) -> (436.7424, -28.2988) centre (436.7425, -20.2988) ccw
  line L281 (436.7424, -28.2988) -> (447.7251, -28.2989)
  arc A84 (447.7251, -28.2989) -> (457.0715, -21.8551) centre (447.7252, -18.2989) ccw
  line L282 (457.0715, -21.8551) -> (477.9368, 32.9818)
  arc A85 (477.9368, 32.9818) -> (474.1982, 38.4043) centre (474.1982, 34.4043) ccw
  line L283 (474.1982, 38.4043) -> (465, 38.4043)
  line L284 (465, 38.4043) -> (465, 35.4043)
  line L285 (465, 35.4043) -> (450, 35.4043)
  line L286 (450, 35.4043) -> (450, 38.4043)
  line L287 (450, 38.4043) -> (417.5, 38.4043)
  line L288 (417.5, 38.4043) -> (417.5, 35.4043)
  line L289 (417.5, 35.4043) -> (402.5, 35.4043)
  line L290 (402.5, 35.4043) -> (402.5, 38.4043)
  line L291 (402.5, 38.4043) -> (370, 38.4043)
  line L292 (370, 38.4043) -> (370, 35.4043)
  line L293 (370, 35.4043) -> (355, 35.4043)
  line L294 (355, 35.4043) -> (355, 38.4043)
  line L295 (355, 38.4043) -> (345.8018, 38.4043)
  arc A86 (345.8018, 38.4043) -> (342.0632, 32.9818) centre (345.8018, 34.4043) ccw
  line L296 (342.0632, 32.9818) -> (362.9285, -21.8551)
  arc A87 (362.9285, -21.8551) -> (372.3983, -28.2981) centre (372.2748, -18.2989) ccw
  arc A88 (393, 16.4043) -> (387, 16.4043) centre (390, 16.4043) ccw
  line L297 (393, 16.4043) -> (393, -11.5957)
  arc A89 (387, -11.5957) -> (393, -11.5957) centre (390, -11.5957) ccw
  line L298 (387, -11.5957) -> (387, 16.4043)
  line L299 (427, -11.5957) -> (427, 16.4043)
  arc A90 (433, 16.4043) -> (427, 16.4043) centre (430, 16.4043) ccw
  line L300 (433, 16.4043) -> (433, -11.5957)
  arc A91 (427, -11.5957) -> (433, -11.5957) centre (430, -11.5957) ccw
  line L301 (441, 18.4043) -> (441, 28.4043)
  line L302 (441, 28.4043) -> (444, 28.4043)
  line L303 (444, 28.4043) -> (444, 18.4043)
  line L304 (444, 18.4043) -> (441, 18.4043)
  line L305 (441, -8.5957) -> (441, 1.4043)
  line L306 (441, 1.4043) -> (444, 1.4043)
  line L307 (444, 1.4043) -> (444, -8.5957)
  line L308 (444, -8.5957) -> (441, -8.5957)
  line L309 (379, 1.4043) -> (376, 1.4043)
  line L310 (376, 1.4043) -> (376, -8.5957)
  line L311 (376, -8.5957) -> (379, -8.5957)
  line L312 (379, -8.5957) -> (379, 1.4043)
  line L313 (379, 28.4043) -> (376, 28.4043)
  line L314 (376, 28.4043) -> (376, 18.4043)
  line L315 (376, 18.4043) -> (379, 18.4043)
  line L316 (379, 18.4043) -> (379, 28.4043)
  circle A92 centre (410, 24.4043) radius 3
  circle A93 centre (371.5, 10.4043) radius 3
  circle A94 centre (448.5, 10.4043) radius 3
  circle A95 centre (410, 8.4043) radius 3
  circle A96 centre (372.2748, -18.2989) radius 3
  circle A97 centre (447.7252, -18.2989) radius 3
  line L317 (348, 71) -> (472.0002, 71)
  line L318 (472.0002, 71) -> (472.0002, 68.4043)
  line L319 (472.0002, 68.4043) -> (465, 68.4043)
  line L320 (465, 68.4043) -> (465, 65.4043)
  line L321 (465, 65.4043) -> (472.0002, 65.4043)
  line L322 (472.0002, 65.4043) -> (472.0002, 51.4043)
  line L323 (472.0002, 51.4043) -> (465, 51.4043)
  line L324 (465, 51.4043) -> (465, 48.4043)
  line L325 (465, 48.4043) -> (472.0002, 48.4043)
  line L326 (472.0002, 48.4043) -> (472.0002, 45)
  line L327 (472.0002, 45) -> (348, 45)
  line L328 (348, 45) -> (348, 48.4043)
  line L329 (348, 48.4043) -> (355, 48.4043)
  line L330 (355, 48.4043) -> (355, 51.4043)
  line L331 (355, 51.4043) -> (348, 51.4043)
  line L332 (348, 51.4043) -> (348, 65.4043)
  line L333 (348, 65.4043) -> (355, 65.4043)
  line L334 (355, 65.4043) -> (355, 68.4043)
  line L335 (355, 68.4043) -> (348, 68.4043)
  line L336 (348, 68.4043) -> (348, 71)
  line L337 (379.0002, 61.9043) -> (376.0002, 61.9043)
  line L338 (376.0002, 61.9043) -> (376.0002, 54.9043)
  line L339 (376.0002, 54.9043) -> (379.0002, 54.9043)
  line L340 (379.0002, 54.9043) -> (379.0002, 61.9043)
  line L341 (379.0002, 65.4043) -> (370, 65.4043)
  line L342 (370, 65.4043) -> (370, 68.4043)
  line L343 (370, 68.4043) -> (402.5, 68.4043)
  line L344 (402.5, 68.4043) -> (402.5, 65.4043)
  line L345 (402.5, 65.4043) -> (379.0002, 65.4043)
  line L346 (376.0002, 51.4043) -> (402.5, 51.4043)
  line L347 (402.5, 51.4043) -> (402.5, 48.4043)
  line L348 (402.5, 48.4043) -> (370, 48.4043)
  line L349 (370, 48.4043) -> (370, 51.4043)
  line L350 (370, 51.4043) -> (376.0002, 51.4043)
  line L351 (417.5, 65.4043) -> (417.5, 68.4043)
  line L352 (417.5, 68.4043) -> (450, 68.4043)
  line L353 (450, 68.4043) -> (450, 65.4043)
  line L354 (450, 65.4043) -> (417.5, 65.4043)
  line L355 (441, 61.9043) -> (444, 61.9043)
  line L356 (444, 61.9043) -> (444, 54.9043)
  line L357 (444, 54.9043) -> (441, 54.9043)
  line L358 (441, 54.9043) -> (441, 61.9043)
  line L359 (444, 51.4043) -> (417.5, 51.4043)
  line L360 (417.5, 51.4043) -> (417.5, 48.4043)
  line L361 (417.5, 48.4043) -> (450, 48.4043)
  line L362 (450, 48.4043) -> (450, 51.4043)
  line L363 (450, 51.4043) -> (444, 51.4043)
  line L364 (672, -101.5) -> (672, -103)
  line L365 (672, -103) -> (695, -103)
  line L366 (695, -103) -> (695, -107.1363)
  arc A98 (692.2891, -110.9229) -> (695, -107.1363) centre (691, -107.1363) ccw
  line L367 (692.2891, -110.9229) -> (650.6445, -125.0997)
  arc A99 (648, -123.2064) -> (650.6445, -125.0997) centre (650, -123.2064) ccw
  line L368 (648, -123.2064) -> (648, -115)
  line L369 (648, -115) -> (649, -115)
  arc A100 (649, -115) -> (651, -113) centre (649, -113) ccw
  line L370 (651, -113) -> (651, -90)
  arc A101 (651, -90) -> (649, -88) centre (649, -90) ccw
  line L371 (649, -88) -> (648, -88)
  line L372 (648, -88) -> (648, -79.7936)
  arc A102 (650.6445, -77.9003) -> (648, -79.7936) centre (650, -79.7936) ccw
  line L373 (650.6445, -77.9003) -> (692.2891, -92.0771)
  arc A103 (695, -95.8637) -> (692.2891, -92.0771) centre (691, -95.8637) ccw
  line L374 (695, -95.8637) -> (695, -100)
  line L375 (695, -100) -> (672, -100)
  line L376 (672, -100) -> (672, -101.5)
  line L377 (671, 47.5) -> (671, 46)
  line L378 (671, 46) -> (694, 46)
  line L379 (694, 46) -> (694, 41.8637)
  arc A104 (691.2891, 38.0771) -> (694, 41.8637) centre (690, 41.8637) ccw
  line L380 (691.2891, 38.0771) -> (649.6445, 23.9003)
  arc A105 (647, 25.7936) -> (649.6445, 23.9003) centre (649, 25.7936) ccw
  line L381 (647, 25.7936) -> (647, 34)
  line L382 (647, 34) -> (648, 34)
  arc A106 (648, 34) -> (650, 36) centre (648, 36) ccw
  line L383 (650, 36) -> (650, 59)
  arc A107 (650, 59) -> (648, 61) centre (648, 59) ccw
  line L384 (648, 61) -> (647, 61)
  line L385 (647, 61) -> (647, 69.2064)
  arc A108 (649.6445, 71.0997) -> (647, 69.2064) centre (649, 69.2064) ccw
  line L386 (649.6445, 71.0997) -> (691.2891, 56.9229)
  arc A109 (694, 53.1363) -> (691.2891, 56.9229) centre (690, 53.1363) ccw
  line L387 (694, 53.1363) -> (694, 49)
  line L388 (694, 49) -> (671, 49)
  line L389 (671, 49) -> (671, 47.5)
  line L390 (692.5332, 13) -> (713, 13)
  line L391 (713, 13) -> (713, 28)
  line L392 (713, 28) -> (716, 28)
  line L393 (716, 28) -> (716, 37.1982)
  arc A110 (716, 37.1982) -> (710.5775, 40.9368) centre (712, 37.1982) ccw
  line L394 (710.5775, 40.9368) -> (655.7406, 20.0715)
  arc A111 (655.7406, 20.0715) -> (649.7575, 13.7252) centre (659.2969, 10.7252) ccw
  line L395 (649.7575, 13.7252) -> (659.2969, 13.7252)
  arc A112 (659.2969, 7.7252) -> (659.2969, 13.7252) centre (659.2969, 10.7252) ccw
  line L396 (659.2969, 7.7252) -> (649.2969, 7.7252)
  line L397 (649.2969, 7.7252) -> (649.2963, 1.7997)
  arc A113 (677.6446, -24) -> (649.2963, 1.7997) centre (649, -27) ccw
  line L398 (677.6446, -24) -> (686, -24)
  arc A114 (686.0452, -29.9997) -> (686, -24) centre (686, -27) ccw
  line L399 (686.0452, -29.9997) -> (677.6446, -29.9997)
  arc A115 (649.2975, -55.7997) -> (677.6446, -29.9997) centre (649, -27) ccw
  line L400 (649.2975, -55.7997) -> (649.2976, -61.7252)
  line L401 (649.2976, -61.7252) -> (659.2969, -61.7252)
  arc A116 (659.2969, -67.7252) -> (659.2969, -61.7252) centre (659.2969, -64.7252) ccw
  line L402 (659.2969, -67.7252) -> (649.7575, -67.7252)
  arc A117 (649.7575, -67.7252) -> (655.7406, -74.0715) centre (659.2969, -64.7252) ccw
  line L403 (655.7406, -74.0715) -> (710.5775, -94.9368)
  arc A118 (710.5775, -94.9368) -> (716, -91.1982) centre (712, -91.1982) ccw
  line L404 (716, -91.1982) -> (716, -82)
  line L405 (716, -82) -> (713, -82)
  line L406 (713, -82) -> (713, -67)
  line L407 (713, -67) -> (692.5332, -67)
  line L408 (692.5332, -67) -> (692.5332, -64)
  line L409 (692.5332, -64) -> (716, -64)
  line L410 (716, -64) -> (716, -34.5)
  line L411 (716, -34.5) -> (713, -34.5)
  line L412 (713, -34.5) -> (713, -19.5)
  line L413 (713, -19.5) -> (716, -19.5)
  line L414 (716, -19.5) -> (716, 10)
  line L415 (716, 10) -> (692.5332, 10)
  line L416 (692.5332, 10) -> (692.5332, 13)
  point P0 (0, 0)
  point P1 (461.0632, -21.5795)
  point P2 (593.1982, -27.002)
  point P3 (576.0715, 33.2574)
  point P4 (548.1018, 34.0716)
  point P5 (509.8984, 34.0712)
  point P6 (481.9285, 33.2574)
  point P7 (506, -5.002)
  point P8 (506, 22.998)
  point P9 (512, -5.002)
  point P10 (552, -5.002)
extrude "Extrusion2" add sketch "Sketch2" along normal blind 3 contours L218 L217 L216 L215 L214 L213 L212 L211 L210 L209 L208 L207 L206 L205 L204 L203 L202 L201 L200 L199 L198 L197 L196 L195
properties part number "soporte_medio"
